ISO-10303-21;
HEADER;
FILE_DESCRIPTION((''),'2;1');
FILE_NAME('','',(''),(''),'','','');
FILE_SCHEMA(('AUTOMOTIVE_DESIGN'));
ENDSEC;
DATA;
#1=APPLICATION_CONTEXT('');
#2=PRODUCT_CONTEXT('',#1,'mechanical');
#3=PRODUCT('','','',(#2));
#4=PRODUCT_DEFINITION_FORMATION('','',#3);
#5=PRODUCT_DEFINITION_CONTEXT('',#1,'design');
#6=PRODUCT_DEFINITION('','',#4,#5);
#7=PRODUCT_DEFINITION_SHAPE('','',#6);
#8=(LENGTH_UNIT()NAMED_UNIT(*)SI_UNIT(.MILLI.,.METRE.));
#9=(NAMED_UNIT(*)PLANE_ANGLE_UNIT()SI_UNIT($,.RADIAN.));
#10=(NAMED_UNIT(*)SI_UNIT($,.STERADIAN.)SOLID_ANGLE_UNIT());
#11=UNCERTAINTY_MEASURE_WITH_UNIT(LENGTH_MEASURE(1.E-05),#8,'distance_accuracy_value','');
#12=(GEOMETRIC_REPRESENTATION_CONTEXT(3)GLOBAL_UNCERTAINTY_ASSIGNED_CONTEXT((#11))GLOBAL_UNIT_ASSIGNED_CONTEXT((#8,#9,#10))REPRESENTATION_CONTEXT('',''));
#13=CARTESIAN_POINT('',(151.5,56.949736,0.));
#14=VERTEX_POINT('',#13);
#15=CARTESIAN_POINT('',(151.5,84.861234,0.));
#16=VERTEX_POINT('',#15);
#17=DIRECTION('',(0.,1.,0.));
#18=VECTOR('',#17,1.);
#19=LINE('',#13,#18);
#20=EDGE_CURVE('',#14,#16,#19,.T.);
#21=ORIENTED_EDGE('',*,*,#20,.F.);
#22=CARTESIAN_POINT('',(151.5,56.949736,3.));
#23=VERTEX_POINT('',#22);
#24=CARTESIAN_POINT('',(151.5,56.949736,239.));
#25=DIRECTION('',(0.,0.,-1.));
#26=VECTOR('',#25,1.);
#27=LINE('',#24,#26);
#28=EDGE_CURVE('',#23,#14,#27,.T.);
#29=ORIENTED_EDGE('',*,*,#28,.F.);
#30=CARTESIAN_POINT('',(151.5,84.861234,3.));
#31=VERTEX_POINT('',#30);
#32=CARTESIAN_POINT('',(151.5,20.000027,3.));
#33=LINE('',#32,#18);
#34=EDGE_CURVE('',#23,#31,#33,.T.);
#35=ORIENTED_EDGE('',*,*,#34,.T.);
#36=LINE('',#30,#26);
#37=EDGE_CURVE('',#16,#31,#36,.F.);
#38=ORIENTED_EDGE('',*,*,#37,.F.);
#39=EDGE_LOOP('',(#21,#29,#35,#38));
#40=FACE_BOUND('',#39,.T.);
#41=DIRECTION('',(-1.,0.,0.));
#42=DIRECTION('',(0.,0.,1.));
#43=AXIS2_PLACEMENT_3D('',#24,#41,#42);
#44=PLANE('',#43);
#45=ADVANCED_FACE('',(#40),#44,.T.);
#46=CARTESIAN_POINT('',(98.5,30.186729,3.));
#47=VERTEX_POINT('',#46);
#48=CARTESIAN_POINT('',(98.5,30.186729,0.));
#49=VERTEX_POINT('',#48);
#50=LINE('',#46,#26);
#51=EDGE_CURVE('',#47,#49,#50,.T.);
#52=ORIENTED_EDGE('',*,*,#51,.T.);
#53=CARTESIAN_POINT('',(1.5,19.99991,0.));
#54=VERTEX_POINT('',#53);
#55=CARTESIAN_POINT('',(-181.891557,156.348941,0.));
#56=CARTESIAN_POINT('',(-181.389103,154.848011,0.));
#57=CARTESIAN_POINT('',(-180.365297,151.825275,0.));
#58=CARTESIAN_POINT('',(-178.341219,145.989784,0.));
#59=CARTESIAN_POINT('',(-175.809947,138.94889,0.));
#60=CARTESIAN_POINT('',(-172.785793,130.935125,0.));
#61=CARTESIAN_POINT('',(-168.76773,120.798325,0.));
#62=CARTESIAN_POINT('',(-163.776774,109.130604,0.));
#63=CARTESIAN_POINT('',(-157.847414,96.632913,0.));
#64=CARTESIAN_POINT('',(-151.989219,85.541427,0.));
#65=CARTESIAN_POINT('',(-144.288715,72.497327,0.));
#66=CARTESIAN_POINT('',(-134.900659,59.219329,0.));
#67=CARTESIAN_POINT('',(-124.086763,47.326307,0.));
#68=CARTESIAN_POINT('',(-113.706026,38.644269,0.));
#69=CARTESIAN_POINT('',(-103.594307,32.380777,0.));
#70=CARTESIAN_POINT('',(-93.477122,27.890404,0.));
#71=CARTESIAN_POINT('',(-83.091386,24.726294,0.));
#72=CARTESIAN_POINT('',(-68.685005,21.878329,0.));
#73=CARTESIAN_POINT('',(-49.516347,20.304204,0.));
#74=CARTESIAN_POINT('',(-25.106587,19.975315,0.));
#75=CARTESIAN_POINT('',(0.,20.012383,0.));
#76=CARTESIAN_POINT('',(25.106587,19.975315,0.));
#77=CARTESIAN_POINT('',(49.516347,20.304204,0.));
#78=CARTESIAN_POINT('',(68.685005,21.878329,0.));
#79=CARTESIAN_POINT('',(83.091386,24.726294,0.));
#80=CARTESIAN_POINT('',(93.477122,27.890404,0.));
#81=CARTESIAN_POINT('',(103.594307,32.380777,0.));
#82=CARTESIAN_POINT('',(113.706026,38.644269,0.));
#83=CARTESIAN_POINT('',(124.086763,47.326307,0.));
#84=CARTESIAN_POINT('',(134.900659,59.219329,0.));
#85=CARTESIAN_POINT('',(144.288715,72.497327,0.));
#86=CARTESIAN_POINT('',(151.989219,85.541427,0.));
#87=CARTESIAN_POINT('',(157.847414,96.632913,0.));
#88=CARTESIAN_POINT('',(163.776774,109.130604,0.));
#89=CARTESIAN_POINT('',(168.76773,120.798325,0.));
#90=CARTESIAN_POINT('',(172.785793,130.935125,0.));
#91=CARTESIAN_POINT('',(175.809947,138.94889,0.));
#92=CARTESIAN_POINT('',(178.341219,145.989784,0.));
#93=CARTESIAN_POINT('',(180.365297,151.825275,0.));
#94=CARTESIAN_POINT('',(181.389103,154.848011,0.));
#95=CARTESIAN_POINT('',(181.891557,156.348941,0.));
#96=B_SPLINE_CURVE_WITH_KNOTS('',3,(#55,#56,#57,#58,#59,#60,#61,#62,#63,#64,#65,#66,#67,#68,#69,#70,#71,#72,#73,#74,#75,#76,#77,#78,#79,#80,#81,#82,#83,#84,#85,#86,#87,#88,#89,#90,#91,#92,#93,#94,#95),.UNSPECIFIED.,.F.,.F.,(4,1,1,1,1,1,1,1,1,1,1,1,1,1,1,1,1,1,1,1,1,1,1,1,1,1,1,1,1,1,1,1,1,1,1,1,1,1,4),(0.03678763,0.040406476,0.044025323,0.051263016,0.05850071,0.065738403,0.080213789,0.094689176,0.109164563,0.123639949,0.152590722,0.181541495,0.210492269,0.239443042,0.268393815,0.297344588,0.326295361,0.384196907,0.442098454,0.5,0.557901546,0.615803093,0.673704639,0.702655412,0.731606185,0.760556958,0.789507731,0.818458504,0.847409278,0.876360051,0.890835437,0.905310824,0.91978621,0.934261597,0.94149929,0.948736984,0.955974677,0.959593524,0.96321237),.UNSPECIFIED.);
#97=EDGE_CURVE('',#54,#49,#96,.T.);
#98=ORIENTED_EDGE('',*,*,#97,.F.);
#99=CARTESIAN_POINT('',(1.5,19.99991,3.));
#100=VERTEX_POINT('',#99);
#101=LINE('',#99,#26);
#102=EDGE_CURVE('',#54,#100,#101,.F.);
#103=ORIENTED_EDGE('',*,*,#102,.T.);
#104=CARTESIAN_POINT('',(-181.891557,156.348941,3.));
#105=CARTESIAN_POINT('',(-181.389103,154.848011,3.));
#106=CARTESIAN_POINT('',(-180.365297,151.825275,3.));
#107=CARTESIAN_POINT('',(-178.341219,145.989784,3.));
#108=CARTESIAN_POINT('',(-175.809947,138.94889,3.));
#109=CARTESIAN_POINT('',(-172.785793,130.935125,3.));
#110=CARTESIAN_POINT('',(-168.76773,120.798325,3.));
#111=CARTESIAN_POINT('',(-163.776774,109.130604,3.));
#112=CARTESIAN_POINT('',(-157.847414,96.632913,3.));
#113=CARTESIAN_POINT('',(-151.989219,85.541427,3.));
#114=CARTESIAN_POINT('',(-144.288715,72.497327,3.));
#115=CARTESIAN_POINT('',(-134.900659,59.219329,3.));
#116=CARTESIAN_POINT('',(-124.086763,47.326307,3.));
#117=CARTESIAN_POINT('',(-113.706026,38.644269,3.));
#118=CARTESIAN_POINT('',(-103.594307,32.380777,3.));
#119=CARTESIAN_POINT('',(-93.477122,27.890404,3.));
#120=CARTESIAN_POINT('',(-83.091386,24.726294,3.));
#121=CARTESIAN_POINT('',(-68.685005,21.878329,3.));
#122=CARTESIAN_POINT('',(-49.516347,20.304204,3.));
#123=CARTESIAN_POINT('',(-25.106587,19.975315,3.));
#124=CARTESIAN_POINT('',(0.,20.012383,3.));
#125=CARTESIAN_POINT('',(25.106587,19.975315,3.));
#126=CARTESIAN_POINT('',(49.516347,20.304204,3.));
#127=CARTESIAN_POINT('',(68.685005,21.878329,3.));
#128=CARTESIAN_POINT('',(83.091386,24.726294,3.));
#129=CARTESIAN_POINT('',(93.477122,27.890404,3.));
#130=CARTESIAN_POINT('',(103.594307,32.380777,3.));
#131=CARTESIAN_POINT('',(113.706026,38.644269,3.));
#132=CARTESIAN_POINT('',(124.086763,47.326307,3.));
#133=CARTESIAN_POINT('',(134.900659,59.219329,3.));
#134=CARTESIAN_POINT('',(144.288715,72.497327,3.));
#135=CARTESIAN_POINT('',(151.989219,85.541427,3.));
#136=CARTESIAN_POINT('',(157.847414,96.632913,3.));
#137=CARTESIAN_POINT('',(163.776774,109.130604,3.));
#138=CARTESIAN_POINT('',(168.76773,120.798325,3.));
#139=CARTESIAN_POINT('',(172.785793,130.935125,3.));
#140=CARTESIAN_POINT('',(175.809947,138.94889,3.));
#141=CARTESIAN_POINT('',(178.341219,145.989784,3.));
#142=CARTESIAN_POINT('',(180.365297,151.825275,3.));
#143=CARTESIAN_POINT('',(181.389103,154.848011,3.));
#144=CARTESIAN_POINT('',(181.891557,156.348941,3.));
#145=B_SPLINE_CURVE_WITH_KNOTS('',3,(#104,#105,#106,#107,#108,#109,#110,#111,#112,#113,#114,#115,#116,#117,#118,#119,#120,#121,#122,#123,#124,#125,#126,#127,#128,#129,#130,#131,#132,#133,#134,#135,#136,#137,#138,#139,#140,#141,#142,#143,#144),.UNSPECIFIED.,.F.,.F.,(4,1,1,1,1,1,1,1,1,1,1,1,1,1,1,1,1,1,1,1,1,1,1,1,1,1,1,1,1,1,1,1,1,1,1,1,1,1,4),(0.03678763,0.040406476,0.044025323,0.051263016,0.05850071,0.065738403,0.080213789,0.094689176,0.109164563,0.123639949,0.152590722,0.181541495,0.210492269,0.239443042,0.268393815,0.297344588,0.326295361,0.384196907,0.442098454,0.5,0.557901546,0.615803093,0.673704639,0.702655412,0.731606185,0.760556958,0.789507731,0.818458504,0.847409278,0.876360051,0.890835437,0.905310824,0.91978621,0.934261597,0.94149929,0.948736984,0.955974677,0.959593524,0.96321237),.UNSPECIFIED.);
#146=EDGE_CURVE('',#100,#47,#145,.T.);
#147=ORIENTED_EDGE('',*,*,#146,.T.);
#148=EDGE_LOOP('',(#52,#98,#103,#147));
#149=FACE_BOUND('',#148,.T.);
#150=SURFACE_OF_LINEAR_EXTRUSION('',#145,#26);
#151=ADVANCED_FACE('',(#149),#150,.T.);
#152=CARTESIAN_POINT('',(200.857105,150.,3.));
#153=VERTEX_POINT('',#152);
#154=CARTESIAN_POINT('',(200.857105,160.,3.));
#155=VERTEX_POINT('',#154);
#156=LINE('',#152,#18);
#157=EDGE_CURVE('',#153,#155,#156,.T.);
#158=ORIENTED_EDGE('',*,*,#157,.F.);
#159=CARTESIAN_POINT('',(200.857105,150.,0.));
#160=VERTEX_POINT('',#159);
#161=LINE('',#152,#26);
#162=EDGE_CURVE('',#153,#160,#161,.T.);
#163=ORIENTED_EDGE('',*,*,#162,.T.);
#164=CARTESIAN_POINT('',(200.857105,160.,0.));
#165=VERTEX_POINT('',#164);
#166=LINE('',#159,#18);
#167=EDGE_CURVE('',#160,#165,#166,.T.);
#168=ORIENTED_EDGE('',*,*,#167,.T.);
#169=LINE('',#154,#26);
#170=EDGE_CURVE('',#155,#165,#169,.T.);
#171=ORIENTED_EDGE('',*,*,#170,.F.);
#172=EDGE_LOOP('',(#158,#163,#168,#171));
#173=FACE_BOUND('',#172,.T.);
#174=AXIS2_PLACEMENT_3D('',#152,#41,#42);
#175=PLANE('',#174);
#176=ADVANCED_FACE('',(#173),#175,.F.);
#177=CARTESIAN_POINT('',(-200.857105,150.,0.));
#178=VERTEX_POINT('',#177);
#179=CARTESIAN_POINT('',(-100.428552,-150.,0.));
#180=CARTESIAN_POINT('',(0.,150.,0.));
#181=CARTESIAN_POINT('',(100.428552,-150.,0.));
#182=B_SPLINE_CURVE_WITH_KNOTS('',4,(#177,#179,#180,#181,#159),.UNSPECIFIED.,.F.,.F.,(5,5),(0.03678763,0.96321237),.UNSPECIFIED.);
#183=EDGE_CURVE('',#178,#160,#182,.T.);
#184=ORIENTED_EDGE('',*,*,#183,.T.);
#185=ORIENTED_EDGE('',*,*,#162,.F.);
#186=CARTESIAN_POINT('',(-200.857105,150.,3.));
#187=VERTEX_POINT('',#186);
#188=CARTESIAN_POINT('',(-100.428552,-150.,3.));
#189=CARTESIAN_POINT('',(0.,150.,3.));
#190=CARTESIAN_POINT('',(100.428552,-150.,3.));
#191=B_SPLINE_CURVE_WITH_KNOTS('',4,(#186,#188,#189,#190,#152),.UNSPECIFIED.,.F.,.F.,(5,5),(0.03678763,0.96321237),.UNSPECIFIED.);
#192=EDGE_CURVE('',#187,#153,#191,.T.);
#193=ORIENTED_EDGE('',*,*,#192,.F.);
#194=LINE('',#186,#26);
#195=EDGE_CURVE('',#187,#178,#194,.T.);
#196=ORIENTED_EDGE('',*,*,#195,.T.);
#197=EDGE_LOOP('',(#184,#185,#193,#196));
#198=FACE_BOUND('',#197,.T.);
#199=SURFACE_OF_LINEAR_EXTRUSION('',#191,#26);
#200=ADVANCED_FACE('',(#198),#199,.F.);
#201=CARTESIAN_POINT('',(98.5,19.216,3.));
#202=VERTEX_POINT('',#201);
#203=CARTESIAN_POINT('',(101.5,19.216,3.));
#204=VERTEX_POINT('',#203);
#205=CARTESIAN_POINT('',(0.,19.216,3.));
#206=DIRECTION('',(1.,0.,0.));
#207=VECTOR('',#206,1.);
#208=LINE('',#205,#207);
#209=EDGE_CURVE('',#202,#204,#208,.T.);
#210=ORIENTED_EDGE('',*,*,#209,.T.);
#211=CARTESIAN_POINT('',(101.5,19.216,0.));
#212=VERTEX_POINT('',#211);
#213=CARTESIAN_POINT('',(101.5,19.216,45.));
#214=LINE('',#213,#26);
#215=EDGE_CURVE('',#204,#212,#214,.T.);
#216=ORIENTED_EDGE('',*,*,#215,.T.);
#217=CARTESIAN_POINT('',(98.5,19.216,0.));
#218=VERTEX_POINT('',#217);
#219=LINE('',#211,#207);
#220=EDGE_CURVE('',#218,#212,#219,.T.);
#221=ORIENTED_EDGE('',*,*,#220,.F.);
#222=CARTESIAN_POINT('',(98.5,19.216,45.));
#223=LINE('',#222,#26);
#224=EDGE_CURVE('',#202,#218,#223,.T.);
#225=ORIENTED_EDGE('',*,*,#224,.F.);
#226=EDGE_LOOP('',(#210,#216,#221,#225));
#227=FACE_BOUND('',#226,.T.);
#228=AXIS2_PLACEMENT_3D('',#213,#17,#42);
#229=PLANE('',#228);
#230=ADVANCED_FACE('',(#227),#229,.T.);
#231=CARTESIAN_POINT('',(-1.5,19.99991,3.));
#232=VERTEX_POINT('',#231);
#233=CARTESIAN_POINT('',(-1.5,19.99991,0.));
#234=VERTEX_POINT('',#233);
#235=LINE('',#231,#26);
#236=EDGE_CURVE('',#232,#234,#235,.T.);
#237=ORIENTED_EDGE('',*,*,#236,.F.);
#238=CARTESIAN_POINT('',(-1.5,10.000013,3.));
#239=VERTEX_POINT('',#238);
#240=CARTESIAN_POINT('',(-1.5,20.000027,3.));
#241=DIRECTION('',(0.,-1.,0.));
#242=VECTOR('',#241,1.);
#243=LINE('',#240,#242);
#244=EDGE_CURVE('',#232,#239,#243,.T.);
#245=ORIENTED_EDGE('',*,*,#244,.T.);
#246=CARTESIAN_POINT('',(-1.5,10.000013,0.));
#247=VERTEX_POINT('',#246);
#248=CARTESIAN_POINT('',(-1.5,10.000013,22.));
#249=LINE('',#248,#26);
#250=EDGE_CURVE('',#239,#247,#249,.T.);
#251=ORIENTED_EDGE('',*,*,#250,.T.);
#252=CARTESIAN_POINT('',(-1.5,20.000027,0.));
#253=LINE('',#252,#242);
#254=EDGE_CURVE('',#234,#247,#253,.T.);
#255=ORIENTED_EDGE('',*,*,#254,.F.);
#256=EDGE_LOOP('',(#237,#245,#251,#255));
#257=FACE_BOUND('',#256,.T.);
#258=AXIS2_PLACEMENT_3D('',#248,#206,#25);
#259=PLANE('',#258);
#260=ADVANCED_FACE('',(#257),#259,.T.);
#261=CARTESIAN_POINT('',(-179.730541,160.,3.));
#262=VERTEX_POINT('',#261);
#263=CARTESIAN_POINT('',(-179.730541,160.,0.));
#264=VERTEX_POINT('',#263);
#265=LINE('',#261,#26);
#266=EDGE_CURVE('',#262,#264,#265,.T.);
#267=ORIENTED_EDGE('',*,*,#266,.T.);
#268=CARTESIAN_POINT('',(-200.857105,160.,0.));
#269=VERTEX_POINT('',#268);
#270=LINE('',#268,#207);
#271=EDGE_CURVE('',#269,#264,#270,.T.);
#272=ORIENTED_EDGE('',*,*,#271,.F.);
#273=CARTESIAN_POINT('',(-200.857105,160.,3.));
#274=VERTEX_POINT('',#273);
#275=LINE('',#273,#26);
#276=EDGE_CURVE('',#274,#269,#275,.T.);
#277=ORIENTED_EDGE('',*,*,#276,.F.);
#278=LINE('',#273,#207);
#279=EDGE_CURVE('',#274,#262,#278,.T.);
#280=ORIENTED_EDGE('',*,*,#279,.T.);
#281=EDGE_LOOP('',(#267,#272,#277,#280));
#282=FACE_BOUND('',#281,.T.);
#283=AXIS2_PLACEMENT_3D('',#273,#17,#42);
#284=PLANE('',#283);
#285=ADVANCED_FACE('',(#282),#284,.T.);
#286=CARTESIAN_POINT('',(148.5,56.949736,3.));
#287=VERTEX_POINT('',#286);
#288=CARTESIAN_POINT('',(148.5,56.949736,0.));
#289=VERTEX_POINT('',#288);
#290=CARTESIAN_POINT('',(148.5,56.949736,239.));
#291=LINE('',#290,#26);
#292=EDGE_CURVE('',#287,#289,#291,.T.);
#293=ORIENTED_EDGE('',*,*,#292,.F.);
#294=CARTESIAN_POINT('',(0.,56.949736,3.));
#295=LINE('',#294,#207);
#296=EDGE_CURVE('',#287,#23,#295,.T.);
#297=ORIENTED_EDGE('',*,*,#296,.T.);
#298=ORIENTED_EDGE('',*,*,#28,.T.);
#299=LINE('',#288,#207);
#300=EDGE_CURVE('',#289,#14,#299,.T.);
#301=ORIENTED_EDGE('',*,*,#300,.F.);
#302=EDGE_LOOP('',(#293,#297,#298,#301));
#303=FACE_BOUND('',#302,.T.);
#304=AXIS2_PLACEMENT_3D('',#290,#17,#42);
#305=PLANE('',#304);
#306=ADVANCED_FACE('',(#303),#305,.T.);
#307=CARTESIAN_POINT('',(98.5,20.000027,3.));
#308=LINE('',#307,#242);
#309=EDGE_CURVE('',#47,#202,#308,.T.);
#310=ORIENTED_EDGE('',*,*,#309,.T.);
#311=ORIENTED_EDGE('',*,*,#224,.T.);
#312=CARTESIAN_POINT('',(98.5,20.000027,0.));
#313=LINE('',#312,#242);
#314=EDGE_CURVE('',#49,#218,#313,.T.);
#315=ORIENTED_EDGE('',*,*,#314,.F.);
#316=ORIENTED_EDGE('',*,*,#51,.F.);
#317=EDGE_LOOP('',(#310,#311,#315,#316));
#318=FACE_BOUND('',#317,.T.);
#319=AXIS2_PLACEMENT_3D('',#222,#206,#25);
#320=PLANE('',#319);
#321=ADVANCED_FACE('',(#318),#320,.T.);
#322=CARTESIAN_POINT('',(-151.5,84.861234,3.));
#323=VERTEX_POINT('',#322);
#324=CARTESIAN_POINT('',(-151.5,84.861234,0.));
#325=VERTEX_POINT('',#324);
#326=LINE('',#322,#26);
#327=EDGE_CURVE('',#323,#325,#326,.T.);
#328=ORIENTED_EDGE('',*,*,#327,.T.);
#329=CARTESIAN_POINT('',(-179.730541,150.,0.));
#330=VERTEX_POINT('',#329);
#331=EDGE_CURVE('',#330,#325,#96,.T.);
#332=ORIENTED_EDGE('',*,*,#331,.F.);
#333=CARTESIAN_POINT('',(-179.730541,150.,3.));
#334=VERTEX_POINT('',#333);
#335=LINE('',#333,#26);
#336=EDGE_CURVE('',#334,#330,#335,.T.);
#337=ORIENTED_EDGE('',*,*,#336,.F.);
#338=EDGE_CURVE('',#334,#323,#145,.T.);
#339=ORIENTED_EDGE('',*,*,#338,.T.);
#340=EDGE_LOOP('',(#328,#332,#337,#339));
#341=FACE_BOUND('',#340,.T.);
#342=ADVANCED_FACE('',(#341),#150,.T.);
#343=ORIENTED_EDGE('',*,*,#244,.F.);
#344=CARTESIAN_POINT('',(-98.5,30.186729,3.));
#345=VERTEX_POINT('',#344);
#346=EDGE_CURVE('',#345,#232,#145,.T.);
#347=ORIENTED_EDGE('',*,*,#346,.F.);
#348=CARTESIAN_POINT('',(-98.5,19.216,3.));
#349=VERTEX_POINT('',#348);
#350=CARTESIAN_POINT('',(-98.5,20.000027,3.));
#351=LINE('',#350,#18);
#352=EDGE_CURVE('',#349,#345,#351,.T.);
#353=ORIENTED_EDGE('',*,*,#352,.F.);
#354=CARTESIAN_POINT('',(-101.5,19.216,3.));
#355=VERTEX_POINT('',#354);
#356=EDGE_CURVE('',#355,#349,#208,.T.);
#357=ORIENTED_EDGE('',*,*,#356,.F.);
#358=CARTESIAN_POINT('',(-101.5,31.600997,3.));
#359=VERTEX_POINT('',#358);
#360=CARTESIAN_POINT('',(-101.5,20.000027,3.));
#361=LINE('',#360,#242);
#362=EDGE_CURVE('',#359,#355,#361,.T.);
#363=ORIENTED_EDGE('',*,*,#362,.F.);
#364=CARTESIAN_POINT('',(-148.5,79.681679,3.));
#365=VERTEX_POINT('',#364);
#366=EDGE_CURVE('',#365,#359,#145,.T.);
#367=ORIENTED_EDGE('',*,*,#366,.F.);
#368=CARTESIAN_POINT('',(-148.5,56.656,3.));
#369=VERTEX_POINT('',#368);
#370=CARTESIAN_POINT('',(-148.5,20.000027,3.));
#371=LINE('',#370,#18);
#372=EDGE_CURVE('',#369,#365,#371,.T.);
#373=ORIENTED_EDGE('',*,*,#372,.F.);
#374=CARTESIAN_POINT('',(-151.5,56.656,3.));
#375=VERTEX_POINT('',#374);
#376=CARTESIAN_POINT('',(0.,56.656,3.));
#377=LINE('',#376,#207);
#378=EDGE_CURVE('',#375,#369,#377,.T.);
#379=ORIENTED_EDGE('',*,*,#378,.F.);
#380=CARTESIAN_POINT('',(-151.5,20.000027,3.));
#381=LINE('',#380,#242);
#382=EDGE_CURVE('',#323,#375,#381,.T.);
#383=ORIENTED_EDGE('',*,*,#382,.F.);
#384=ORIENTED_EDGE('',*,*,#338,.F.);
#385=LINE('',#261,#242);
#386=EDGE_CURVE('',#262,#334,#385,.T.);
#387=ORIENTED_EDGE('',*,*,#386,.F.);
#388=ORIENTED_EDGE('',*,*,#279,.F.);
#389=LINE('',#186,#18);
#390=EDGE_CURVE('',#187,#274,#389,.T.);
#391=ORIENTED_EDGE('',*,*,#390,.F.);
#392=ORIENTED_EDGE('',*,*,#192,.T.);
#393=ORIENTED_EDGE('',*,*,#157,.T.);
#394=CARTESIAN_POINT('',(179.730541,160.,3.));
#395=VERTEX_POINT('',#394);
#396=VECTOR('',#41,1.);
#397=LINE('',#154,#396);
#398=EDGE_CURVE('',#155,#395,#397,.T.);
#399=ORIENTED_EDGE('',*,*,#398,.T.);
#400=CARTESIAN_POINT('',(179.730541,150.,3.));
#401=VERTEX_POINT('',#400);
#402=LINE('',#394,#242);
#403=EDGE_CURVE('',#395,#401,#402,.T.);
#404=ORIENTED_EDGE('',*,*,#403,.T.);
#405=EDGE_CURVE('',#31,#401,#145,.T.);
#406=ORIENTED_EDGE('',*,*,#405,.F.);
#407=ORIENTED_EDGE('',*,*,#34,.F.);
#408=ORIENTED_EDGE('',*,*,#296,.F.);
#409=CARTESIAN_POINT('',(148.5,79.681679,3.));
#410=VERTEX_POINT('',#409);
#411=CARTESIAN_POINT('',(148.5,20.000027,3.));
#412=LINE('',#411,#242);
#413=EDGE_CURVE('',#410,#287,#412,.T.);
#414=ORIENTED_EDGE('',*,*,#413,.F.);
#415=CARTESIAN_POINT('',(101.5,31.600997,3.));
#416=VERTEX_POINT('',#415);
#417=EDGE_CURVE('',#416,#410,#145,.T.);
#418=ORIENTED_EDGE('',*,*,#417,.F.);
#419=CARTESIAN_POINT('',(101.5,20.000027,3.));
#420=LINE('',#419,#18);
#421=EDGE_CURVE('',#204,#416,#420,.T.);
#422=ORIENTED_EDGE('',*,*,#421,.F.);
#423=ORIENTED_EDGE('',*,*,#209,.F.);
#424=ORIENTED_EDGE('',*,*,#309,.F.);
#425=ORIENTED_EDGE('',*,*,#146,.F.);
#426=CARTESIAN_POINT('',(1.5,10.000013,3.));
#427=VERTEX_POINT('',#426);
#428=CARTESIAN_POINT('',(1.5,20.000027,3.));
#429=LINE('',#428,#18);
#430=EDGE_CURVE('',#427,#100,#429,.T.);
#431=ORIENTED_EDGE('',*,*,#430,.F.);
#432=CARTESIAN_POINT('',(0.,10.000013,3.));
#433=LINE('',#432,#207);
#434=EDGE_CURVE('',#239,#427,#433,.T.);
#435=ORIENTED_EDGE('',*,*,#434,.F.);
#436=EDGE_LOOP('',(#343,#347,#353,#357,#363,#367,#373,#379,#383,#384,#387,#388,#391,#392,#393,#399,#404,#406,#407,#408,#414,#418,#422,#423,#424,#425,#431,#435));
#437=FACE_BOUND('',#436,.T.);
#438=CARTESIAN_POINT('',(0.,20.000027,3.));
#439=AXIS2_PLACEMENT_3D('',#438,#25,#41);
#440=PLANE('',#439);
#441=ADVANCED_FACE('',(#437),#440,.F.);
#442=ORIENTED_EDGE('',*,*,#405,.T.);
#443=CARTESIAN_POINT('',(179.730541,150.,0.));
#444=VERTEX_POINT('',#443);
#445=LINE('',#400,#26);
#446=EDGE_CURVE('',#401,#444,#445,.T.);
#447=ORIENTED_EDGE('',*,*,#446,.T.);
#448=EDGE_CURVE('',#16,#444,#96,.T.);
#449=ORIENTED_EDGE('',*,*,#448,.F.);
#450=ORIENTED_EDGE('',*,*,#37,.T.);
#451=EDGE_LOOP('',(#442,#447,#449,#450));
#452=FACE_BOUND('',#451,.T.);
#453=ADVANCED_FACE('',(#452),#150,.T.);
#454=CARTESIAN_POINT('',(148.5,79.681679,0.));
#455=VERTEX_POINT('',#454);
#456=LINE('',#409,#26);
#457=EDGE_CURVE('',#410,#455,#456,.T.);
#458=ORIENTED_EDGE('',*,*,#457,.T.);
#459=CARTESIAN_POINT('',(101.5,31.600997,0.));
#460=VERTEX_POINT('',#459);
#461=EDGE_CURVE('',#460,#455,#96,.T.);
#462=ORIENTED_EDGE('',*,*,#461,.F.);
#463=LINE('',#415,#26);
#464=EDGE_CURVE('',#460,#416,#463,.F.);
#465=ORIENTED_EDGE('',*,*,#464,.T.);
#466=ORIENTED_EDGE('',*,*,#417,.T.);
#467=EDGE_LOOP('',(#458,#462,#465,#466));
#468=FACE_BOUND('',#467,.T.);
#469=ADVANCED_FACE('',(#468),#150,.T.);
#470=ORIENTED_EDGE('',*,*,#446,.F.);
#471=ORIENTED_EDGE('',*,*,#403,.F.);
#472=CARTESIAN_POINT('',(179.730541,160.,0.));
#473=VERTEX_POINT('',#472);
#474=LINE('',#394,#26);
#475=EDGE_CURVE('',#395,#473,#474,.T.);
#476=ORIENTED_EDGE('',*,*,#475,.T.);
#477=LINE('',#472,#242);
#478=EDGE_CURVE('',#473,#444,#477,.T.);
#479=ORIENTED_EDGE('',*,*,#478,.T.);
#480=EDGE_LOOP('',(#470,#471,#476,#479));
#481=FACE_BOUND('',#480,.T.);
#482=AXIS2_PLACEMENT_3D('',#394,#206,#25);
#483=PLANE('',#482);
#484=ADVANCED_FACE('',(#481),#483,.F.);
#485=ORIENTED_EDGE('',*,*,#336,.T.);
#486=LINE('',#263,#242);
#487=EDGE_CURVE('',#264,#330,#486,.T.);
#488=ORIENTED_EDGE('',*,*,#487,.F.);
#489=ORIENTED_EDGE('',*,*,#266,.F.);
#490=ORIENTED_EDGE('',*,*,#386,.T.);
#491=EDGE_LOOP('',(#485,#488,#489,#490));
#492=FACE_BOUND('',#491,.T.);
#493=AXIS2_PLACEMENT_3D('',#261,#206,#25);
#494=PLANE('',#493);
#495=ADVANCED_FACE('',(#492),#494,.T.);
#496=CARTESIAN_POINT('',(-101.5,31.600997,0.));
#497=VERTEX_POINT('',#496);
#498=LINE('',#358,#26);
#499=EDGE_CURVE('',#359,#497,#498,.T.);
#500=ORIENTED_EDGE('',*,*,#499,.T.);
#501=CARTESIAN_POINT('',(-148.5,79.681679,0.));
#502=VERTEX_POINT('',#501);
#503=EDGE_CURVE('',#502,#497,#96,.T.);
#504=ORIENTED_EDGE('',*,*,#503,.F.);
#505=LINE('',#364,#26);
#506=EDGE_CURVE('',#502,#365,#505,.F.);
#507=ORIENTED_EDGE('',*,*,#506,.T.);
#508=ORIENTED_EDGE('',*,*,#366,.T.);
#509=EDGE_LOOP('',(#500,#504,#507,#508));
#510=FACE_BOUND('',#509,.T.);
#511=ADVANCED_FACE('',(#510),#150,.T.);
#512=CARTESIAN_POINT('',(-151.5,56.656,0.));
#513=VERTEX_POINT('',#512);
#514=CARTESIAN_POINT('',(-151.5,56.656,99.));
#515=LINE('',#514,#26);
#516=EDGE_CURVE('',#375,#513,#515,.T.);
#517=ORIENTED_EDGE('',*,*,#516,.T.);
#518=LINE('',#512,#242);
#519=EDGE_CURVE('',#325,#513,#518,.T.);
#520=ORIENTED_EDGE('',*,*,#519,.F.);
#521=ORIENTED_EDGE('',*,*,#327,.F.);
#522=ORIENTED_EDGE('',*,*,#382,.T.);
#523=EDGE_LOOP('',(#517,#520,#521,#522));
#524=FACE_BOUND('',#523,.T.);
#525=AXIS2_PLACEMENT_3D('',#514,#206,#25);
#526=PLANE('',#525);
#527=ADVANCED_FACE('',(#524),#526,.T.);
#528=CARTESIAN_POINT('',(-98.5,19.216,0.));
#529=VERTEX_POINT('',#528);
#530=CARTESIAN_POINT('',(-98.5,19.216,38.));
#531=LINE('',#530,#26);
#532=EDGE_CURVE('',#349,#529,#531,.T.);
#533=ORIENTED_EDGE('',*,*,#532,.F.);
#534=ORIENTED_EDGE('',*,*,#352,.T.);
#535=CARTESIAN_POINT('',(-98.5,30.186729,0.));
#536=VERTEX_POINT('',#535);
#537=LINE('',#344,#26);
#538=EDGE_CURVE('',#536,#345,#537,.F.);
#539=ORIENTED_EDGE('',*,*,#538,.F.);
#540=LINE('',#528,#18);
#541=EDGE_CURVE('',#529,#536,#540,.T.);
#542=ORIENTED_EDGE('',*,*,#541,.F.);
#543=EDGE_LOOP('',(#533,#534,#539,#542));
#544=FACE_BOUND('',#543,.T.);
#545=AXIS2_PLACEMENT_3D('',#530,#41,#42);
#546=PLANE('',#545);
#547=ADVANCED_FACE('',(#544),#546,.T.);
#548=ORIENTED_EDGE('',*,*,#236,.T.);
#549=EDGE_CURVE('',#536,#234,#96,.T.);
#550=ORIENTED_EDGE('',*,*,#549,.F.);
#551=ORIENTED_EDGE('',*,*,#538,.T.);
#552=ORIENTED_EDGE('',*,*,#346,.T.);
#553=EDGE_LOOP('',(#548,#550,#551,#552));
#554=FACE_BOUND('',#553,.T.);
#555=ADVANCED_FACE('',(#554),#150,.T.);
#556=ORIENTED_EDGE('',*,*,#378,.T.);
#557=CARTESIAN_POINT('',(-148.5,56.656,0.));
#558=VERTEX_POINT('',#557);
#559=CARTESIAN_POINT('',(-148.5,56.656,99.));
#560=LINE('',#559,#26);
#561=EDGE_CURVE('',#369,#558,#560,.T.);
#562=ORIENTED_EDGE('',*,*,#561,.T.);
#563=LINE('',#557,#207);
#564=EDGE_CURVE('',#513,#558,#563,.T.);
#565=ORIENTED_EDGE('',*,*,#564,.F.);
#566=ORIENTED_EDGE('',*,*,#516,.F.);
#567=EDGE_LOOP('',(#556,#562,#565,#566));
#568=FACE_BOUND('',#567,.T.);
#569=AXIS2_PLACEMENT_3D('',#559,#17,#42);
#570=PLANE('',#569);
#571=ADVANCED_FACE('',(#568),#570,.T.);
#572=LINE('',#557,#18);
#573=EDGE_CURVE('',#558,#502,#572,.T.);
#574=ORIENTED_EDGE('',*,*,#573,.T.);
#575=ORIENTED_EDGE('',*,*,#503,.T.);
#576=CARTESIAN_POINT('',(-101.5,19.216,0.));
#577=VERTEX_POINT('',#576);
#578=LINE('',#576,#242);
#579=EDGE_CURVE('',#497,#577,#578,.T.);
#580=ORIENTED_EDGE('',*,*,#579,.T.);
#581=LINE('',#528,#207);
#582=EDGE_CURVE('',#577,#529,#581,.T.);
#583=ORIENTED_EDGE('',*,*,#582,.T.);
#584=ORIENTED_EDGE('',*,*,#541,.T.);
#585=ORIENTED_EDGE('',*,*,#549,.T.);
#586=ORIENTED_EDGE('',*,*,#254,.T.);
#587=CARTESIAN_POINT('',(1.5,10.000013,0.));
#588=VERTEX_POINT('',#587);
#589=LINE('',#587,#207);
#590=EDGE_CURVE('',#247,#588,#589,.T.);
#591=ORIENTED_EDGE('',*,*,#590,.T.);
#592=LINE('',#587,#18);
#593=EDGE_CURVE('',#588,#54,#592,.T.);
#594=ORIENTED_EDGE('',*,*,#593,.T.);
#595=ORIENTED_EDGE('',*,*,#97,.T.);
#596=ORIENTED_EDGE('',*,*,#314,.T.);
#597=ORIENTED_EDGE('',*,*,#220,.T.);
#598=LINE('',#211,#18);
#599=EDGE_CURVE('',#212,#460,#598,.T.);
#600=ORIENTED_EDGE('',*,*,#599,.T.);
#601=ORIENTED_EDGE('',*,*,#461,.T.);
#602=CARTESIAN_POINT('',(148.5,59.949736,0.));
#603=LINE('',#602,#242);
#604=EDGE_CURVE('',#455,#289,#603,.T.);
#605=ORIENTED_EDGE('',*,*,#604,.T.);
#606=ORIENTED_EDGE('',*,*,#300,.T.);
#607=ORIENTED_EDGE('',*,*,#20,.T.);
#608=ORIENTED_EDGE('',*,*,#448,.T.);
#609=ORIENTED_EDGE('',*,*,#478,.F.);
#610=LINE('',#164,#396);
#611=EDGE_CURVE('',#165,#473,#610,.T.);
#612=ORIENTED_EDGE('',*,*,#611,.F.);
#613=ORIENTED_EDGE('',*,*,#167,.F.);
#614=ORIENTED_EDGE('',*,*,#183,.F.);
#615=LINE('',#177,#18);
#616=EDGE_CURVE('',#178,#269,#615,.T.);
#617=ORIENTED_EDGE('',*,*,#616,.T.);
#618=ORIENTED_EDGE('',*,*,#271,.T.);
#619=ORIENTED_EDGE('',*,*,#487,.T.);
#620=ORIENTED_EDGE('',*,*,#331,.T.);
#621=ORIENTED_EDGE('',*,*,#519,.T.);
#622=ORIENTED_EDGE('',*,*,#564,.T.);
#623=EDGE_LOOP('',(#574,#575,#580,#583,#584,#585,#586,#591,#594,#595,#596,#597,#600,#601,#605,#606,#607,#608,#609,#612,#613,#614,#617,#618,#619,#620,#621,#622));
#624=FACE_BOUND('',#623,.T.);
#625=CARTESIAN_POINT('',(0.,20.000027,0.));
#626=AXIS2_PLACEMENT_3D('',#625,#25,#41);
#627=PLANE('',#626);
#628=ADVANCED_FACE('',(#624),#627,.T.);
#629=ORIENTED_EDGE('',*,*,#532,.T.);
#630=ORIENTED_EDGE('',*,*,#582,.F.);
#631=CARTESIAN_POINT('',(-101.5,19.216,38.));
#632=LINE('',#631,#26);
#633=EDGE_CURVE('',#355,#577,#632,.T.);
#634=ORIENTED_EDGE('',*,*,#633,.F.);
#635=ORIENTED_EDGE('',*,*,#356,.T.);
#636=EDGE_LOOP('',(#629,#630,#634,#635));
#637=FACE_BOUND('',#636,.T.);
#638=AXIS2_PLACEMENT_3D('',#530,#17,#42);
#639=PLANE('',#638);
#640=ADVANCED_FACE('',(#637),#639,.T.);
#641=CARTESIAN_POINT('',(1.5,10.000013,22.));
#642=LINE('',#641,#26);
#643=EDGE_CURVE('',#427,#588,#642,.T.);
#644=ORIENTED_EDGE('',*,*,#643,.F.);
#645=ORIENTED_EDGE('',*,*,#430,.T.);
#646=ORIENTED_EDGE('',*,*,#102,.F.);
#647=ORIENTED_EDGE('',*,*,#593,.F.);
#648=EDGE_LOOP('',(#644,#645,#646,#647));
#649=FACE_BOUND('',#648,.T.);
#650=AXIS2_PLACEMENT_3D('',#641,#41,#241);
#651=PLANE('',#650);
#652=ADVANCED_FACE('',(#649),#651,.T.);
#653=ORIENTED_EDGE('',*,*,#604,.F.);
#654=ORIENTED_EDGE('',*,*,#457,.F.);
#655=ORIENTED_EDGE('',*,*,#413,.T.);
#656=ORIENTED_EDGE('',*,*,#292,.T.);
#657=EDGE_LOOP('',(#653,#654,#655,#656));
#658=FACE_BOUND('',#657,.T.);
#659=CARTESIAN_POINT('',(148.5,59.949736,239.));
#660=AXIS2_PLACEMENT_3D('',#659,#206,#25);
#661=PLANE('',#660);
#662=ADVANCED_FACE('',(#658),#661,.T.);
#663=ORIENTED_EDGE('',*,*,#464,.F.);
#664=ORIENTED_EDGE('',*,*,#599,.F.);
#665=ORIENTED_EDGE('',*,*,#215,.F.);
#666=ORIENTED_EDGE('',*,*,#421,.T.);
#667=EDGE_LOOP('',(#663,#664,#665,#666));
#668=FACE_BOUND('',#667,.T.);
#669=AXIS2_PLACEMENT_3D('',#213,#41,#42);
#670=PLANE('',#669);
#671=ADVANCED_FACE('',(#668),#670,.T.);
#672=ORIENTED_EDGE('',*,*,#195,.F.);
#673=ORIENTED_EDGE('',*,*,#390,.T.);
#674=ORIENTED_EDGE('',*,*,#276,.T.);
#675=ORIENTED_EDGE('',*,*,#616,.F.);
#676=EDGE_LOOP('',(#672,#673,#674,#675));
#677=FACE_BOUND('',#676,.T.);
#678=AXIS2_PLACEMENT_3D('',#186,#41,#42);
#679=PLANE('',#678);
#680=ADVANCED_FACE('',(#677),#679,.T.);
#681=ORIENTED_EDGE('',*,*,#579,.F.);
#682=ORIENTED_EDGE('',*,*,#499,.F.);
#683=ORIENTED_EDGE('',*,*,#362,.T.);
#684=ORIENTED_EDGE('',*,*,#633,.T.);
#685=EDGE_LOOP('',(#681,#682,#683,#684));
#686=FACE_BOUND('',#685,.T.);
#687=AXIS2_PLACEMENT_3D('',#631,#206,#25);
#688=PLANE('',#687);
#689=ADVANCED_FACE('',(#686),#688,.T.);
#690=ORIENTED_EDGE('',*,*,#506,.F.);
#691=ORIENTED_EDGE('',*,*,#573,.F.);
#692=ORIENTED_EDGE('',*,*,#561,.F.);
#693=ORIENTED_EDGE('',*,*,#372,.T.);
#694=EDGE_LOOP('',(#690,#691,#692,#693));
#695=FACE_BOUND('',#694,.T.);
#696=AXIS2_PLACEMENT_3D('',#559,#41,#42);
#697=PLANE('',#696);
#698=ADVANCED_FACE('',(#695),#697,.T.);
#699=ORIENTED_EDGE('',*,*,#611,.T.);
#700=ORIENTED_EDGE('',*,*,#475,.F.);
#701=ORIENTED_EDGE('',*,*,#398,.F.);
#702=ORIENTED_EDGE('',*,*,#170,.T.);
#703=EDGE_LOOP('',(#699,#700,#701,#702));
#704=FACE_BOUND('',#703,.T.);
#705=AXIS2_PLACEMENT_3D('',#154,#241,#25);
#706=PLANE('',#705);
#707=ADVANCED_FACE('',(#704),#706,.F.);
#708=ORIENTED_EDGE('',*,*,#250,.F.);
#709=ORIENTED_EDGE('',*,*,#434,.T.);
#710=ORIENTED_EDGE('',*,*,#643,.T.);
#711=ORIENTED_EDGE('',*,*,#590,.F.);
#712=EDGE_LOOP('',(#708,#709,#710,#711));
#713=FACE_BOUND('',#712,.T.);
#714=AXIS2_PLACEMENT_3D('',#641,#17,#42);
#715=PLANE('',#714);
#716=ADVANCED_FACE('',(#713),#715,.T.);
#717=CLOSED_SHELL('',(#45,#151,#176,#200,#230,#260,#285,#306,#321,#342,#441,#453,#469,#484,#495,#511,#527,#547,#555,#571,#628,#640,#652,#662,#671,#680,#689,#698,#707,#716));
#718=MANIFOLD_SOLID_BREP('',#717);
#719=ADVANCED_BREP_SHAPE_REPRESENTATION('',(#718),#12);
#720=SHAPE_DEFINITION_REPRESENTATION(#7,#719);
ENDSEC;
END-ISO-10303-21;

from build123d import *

# Parameters (mm, degrees)
BOSS_EXTRUDE1_DEPTH = 3
SKETCH2_W           = 2.999999902
SKETCH2_H           = 11.368148841
CUT_EXTRUDE2_DEPTH  = 22
SKETCH4_W           = 3
SKETCH4_H           = 12.91245629
CUT_EXTRUDE3_DEPTH  = 45
SKETCH5_W           = 3
SKETCH5_H           = 17.735525731
CUT_EXTRUDE4_DEPTH  = 38
SKETCH6_W           = 3
SKETCH6_H           = 30.838195809
CUT_EXTRUDE5_DEPTH  = 99
CUT_EXTRUDE6_DEPTH  = 239


with BuildPart() as part:
    # Sketch1 → Boss-Extrude1 (new body)
    with BuildSketch(Plane.XY):
        with BuildLine():
            Line((-200.857104714, 149.999999933), (-200.857104714, 159.999999933))
            Line((-200.857104714, 159.999999933), (-179.730541017, 159.999999933))
            Line((-179.730541017, 159.999999933), (-179.730541017, 149.999999952))
            add(Edge.make_bspline(
                [(-179.730541017, 149.999999952), (-179.435736312, 149.148237058), (-178.129369157, 145.400432959), (-175.809971558, 138.948879894), (-172.785816957, 130.935113712), (-168.767754052, 120.798312408), (-163.776796791, 109.130589637), (-157.847435598, 96.632896439), (-151.989239929, 85.54140938), (-144.288735397, 72.497307518), (-134.900677695, 59.219307644), (-124.086780396, 47.326283664), (-113.706041623, 38.64424455), (-103.59432148, 32.380752321), (-93.477134718, 27.890378411), (-83.091397363, 24.726267775), (-68.685014669, 21.878302713), (-49.516353479, 20.30417739), (-25.106590611, 19.975287666), (-1.8e-08, 20.012356167), (25.106590577, 19.975287666), (49.516353446, 20.304177388), (68.685014637, 21.878302709), (83.091397333, 24.726267767), (93.477134689, 27.8903784), (103.594321452, 32.380752306), (113.706041594, 38.644244529), (124.086780366, 47.326283635), (134.900677664, 59.219307605), (144.288735365, 72.497307468), (151.989239896, 85.541409321), (157.847435565, 96.632896373), (163.776796758, 109.130589562), (168.767754018, 120.798312326), (172.785816923, 130.935113624), (175.809971524, 138.948879801), (178.129369121, 145.400432856), (179.435736274, 149.148236946), (179.730540976, 149.999999832)],
                knots=[0.041921013, 0.041921013, 0.041921013, 0.041921013, 0.044025323, 0.051263016, 0.05850071, 0.065738403, 0.080213789, 0.094689176, 0.109164563, 0.123639949, 0.152590722, 0.181541495, 0.210492269, 0.239443042, 0.268393815, 0.297344588, 0.326295361, 0.384196907, 0.442098454, 0.5, 0.557901546, 0.615803093, 0.673704639, 0.702655412, 0.731606185, 0.760556958, 0.789507731, 0.818458504, 0.847409278, 0.876360051, 0.890835437, 0.905310824, 0.91978621, 0.934261597, 0.94149929, 0.948736984, 0.955974677, 0.958078987, 0.958078987, 0.958078987, 0.958078987], degree=3))
            Line((179.730540976, 149.999999832), (179.730540976, 159.999999832))
            Line((179.730540976, 159.999999832), (200.857104679, 159.999999832))
            Line((200.857104679, 159.999999832), (200.857104679, 149.999999828))
            add(Edge.make_bspline(
                [(-200.857104714, 149.999999933), (-100.428552366, -149.999999904), (-1.8e-08, 149.999999877), (100.428552329, -149.999999851), (200.857104679, 149.999999828)],
                knots=[0.03678763, 0.03678763, 0.03678763, 0.03678763, 0.03678763, 0.96321237, 0.96321237, 0.96321237, 0.96321237, 0.96321237], degree=4))
        make_face()
    extrude(amount=BOSS_EXTRUDE1_DEPTH)

    # Sketch2 → Cut-Extrude2 (cut)
    with BuildSketch(Plane.XY):
        with Locations((-4.4e-08, 15.684087839)):
            Rectangle(SKETCH2_W, SKETCH2_H)
    extrude(amount=CUT_EXTRUDE2_DEPTH, mode=Mode.SUBTRACT)

    # Sketch4 → Cut-Extrude3 (cut)
    with BuildSketch(Plane.XY):
        with Locations((99.999999956, 25.672228128)):
            Rectangle(SKETCH4_W, SKETCH4_H)
    extrude(amount=CUT_EXTRUDE3_DEPTH, mode=Mode.SUBTRACT)

    # Sketch5 → Cut-Extrude4 (cut)
    with BuildSketch(Plane.XY):
        with Locations((-100, 28.083762866)):
            Rectangle(SKETCH5_W, SKETCH5_H)
    extrude(amount=CUT_EXTRUDE4_DEPTH, mode=Mode.SUBTRACT)

    # Sketch6 → Cut-Extrude5 (cut)
    with BuildSketch(Plane.XY):
        with Locations((-150, 72.075097905)):
            Rectangle(SKETCH6_W, SKETCH6_H)
    extrude(amount=CUT_EXTRUDE5_DEPTH, mode=Mode.SUBTRACT)

    # Sketch7 → Cut-Extrude6 (cut)
    with BuildSketch(Plane.XY):
        Polygon((148.499999956, 59.949736331), (148.499999956, 86.674548715), (151.499999956, 86.674548715), (151.499999956, 59.949736331), (151.499999956, 56.949736331), (148.499999956, 56.949736331), align=None)
    extrude(amount=CUT_EXTRUDE6_DEPTH, mode=Mode.SUBTRACT)


solid = part.part
